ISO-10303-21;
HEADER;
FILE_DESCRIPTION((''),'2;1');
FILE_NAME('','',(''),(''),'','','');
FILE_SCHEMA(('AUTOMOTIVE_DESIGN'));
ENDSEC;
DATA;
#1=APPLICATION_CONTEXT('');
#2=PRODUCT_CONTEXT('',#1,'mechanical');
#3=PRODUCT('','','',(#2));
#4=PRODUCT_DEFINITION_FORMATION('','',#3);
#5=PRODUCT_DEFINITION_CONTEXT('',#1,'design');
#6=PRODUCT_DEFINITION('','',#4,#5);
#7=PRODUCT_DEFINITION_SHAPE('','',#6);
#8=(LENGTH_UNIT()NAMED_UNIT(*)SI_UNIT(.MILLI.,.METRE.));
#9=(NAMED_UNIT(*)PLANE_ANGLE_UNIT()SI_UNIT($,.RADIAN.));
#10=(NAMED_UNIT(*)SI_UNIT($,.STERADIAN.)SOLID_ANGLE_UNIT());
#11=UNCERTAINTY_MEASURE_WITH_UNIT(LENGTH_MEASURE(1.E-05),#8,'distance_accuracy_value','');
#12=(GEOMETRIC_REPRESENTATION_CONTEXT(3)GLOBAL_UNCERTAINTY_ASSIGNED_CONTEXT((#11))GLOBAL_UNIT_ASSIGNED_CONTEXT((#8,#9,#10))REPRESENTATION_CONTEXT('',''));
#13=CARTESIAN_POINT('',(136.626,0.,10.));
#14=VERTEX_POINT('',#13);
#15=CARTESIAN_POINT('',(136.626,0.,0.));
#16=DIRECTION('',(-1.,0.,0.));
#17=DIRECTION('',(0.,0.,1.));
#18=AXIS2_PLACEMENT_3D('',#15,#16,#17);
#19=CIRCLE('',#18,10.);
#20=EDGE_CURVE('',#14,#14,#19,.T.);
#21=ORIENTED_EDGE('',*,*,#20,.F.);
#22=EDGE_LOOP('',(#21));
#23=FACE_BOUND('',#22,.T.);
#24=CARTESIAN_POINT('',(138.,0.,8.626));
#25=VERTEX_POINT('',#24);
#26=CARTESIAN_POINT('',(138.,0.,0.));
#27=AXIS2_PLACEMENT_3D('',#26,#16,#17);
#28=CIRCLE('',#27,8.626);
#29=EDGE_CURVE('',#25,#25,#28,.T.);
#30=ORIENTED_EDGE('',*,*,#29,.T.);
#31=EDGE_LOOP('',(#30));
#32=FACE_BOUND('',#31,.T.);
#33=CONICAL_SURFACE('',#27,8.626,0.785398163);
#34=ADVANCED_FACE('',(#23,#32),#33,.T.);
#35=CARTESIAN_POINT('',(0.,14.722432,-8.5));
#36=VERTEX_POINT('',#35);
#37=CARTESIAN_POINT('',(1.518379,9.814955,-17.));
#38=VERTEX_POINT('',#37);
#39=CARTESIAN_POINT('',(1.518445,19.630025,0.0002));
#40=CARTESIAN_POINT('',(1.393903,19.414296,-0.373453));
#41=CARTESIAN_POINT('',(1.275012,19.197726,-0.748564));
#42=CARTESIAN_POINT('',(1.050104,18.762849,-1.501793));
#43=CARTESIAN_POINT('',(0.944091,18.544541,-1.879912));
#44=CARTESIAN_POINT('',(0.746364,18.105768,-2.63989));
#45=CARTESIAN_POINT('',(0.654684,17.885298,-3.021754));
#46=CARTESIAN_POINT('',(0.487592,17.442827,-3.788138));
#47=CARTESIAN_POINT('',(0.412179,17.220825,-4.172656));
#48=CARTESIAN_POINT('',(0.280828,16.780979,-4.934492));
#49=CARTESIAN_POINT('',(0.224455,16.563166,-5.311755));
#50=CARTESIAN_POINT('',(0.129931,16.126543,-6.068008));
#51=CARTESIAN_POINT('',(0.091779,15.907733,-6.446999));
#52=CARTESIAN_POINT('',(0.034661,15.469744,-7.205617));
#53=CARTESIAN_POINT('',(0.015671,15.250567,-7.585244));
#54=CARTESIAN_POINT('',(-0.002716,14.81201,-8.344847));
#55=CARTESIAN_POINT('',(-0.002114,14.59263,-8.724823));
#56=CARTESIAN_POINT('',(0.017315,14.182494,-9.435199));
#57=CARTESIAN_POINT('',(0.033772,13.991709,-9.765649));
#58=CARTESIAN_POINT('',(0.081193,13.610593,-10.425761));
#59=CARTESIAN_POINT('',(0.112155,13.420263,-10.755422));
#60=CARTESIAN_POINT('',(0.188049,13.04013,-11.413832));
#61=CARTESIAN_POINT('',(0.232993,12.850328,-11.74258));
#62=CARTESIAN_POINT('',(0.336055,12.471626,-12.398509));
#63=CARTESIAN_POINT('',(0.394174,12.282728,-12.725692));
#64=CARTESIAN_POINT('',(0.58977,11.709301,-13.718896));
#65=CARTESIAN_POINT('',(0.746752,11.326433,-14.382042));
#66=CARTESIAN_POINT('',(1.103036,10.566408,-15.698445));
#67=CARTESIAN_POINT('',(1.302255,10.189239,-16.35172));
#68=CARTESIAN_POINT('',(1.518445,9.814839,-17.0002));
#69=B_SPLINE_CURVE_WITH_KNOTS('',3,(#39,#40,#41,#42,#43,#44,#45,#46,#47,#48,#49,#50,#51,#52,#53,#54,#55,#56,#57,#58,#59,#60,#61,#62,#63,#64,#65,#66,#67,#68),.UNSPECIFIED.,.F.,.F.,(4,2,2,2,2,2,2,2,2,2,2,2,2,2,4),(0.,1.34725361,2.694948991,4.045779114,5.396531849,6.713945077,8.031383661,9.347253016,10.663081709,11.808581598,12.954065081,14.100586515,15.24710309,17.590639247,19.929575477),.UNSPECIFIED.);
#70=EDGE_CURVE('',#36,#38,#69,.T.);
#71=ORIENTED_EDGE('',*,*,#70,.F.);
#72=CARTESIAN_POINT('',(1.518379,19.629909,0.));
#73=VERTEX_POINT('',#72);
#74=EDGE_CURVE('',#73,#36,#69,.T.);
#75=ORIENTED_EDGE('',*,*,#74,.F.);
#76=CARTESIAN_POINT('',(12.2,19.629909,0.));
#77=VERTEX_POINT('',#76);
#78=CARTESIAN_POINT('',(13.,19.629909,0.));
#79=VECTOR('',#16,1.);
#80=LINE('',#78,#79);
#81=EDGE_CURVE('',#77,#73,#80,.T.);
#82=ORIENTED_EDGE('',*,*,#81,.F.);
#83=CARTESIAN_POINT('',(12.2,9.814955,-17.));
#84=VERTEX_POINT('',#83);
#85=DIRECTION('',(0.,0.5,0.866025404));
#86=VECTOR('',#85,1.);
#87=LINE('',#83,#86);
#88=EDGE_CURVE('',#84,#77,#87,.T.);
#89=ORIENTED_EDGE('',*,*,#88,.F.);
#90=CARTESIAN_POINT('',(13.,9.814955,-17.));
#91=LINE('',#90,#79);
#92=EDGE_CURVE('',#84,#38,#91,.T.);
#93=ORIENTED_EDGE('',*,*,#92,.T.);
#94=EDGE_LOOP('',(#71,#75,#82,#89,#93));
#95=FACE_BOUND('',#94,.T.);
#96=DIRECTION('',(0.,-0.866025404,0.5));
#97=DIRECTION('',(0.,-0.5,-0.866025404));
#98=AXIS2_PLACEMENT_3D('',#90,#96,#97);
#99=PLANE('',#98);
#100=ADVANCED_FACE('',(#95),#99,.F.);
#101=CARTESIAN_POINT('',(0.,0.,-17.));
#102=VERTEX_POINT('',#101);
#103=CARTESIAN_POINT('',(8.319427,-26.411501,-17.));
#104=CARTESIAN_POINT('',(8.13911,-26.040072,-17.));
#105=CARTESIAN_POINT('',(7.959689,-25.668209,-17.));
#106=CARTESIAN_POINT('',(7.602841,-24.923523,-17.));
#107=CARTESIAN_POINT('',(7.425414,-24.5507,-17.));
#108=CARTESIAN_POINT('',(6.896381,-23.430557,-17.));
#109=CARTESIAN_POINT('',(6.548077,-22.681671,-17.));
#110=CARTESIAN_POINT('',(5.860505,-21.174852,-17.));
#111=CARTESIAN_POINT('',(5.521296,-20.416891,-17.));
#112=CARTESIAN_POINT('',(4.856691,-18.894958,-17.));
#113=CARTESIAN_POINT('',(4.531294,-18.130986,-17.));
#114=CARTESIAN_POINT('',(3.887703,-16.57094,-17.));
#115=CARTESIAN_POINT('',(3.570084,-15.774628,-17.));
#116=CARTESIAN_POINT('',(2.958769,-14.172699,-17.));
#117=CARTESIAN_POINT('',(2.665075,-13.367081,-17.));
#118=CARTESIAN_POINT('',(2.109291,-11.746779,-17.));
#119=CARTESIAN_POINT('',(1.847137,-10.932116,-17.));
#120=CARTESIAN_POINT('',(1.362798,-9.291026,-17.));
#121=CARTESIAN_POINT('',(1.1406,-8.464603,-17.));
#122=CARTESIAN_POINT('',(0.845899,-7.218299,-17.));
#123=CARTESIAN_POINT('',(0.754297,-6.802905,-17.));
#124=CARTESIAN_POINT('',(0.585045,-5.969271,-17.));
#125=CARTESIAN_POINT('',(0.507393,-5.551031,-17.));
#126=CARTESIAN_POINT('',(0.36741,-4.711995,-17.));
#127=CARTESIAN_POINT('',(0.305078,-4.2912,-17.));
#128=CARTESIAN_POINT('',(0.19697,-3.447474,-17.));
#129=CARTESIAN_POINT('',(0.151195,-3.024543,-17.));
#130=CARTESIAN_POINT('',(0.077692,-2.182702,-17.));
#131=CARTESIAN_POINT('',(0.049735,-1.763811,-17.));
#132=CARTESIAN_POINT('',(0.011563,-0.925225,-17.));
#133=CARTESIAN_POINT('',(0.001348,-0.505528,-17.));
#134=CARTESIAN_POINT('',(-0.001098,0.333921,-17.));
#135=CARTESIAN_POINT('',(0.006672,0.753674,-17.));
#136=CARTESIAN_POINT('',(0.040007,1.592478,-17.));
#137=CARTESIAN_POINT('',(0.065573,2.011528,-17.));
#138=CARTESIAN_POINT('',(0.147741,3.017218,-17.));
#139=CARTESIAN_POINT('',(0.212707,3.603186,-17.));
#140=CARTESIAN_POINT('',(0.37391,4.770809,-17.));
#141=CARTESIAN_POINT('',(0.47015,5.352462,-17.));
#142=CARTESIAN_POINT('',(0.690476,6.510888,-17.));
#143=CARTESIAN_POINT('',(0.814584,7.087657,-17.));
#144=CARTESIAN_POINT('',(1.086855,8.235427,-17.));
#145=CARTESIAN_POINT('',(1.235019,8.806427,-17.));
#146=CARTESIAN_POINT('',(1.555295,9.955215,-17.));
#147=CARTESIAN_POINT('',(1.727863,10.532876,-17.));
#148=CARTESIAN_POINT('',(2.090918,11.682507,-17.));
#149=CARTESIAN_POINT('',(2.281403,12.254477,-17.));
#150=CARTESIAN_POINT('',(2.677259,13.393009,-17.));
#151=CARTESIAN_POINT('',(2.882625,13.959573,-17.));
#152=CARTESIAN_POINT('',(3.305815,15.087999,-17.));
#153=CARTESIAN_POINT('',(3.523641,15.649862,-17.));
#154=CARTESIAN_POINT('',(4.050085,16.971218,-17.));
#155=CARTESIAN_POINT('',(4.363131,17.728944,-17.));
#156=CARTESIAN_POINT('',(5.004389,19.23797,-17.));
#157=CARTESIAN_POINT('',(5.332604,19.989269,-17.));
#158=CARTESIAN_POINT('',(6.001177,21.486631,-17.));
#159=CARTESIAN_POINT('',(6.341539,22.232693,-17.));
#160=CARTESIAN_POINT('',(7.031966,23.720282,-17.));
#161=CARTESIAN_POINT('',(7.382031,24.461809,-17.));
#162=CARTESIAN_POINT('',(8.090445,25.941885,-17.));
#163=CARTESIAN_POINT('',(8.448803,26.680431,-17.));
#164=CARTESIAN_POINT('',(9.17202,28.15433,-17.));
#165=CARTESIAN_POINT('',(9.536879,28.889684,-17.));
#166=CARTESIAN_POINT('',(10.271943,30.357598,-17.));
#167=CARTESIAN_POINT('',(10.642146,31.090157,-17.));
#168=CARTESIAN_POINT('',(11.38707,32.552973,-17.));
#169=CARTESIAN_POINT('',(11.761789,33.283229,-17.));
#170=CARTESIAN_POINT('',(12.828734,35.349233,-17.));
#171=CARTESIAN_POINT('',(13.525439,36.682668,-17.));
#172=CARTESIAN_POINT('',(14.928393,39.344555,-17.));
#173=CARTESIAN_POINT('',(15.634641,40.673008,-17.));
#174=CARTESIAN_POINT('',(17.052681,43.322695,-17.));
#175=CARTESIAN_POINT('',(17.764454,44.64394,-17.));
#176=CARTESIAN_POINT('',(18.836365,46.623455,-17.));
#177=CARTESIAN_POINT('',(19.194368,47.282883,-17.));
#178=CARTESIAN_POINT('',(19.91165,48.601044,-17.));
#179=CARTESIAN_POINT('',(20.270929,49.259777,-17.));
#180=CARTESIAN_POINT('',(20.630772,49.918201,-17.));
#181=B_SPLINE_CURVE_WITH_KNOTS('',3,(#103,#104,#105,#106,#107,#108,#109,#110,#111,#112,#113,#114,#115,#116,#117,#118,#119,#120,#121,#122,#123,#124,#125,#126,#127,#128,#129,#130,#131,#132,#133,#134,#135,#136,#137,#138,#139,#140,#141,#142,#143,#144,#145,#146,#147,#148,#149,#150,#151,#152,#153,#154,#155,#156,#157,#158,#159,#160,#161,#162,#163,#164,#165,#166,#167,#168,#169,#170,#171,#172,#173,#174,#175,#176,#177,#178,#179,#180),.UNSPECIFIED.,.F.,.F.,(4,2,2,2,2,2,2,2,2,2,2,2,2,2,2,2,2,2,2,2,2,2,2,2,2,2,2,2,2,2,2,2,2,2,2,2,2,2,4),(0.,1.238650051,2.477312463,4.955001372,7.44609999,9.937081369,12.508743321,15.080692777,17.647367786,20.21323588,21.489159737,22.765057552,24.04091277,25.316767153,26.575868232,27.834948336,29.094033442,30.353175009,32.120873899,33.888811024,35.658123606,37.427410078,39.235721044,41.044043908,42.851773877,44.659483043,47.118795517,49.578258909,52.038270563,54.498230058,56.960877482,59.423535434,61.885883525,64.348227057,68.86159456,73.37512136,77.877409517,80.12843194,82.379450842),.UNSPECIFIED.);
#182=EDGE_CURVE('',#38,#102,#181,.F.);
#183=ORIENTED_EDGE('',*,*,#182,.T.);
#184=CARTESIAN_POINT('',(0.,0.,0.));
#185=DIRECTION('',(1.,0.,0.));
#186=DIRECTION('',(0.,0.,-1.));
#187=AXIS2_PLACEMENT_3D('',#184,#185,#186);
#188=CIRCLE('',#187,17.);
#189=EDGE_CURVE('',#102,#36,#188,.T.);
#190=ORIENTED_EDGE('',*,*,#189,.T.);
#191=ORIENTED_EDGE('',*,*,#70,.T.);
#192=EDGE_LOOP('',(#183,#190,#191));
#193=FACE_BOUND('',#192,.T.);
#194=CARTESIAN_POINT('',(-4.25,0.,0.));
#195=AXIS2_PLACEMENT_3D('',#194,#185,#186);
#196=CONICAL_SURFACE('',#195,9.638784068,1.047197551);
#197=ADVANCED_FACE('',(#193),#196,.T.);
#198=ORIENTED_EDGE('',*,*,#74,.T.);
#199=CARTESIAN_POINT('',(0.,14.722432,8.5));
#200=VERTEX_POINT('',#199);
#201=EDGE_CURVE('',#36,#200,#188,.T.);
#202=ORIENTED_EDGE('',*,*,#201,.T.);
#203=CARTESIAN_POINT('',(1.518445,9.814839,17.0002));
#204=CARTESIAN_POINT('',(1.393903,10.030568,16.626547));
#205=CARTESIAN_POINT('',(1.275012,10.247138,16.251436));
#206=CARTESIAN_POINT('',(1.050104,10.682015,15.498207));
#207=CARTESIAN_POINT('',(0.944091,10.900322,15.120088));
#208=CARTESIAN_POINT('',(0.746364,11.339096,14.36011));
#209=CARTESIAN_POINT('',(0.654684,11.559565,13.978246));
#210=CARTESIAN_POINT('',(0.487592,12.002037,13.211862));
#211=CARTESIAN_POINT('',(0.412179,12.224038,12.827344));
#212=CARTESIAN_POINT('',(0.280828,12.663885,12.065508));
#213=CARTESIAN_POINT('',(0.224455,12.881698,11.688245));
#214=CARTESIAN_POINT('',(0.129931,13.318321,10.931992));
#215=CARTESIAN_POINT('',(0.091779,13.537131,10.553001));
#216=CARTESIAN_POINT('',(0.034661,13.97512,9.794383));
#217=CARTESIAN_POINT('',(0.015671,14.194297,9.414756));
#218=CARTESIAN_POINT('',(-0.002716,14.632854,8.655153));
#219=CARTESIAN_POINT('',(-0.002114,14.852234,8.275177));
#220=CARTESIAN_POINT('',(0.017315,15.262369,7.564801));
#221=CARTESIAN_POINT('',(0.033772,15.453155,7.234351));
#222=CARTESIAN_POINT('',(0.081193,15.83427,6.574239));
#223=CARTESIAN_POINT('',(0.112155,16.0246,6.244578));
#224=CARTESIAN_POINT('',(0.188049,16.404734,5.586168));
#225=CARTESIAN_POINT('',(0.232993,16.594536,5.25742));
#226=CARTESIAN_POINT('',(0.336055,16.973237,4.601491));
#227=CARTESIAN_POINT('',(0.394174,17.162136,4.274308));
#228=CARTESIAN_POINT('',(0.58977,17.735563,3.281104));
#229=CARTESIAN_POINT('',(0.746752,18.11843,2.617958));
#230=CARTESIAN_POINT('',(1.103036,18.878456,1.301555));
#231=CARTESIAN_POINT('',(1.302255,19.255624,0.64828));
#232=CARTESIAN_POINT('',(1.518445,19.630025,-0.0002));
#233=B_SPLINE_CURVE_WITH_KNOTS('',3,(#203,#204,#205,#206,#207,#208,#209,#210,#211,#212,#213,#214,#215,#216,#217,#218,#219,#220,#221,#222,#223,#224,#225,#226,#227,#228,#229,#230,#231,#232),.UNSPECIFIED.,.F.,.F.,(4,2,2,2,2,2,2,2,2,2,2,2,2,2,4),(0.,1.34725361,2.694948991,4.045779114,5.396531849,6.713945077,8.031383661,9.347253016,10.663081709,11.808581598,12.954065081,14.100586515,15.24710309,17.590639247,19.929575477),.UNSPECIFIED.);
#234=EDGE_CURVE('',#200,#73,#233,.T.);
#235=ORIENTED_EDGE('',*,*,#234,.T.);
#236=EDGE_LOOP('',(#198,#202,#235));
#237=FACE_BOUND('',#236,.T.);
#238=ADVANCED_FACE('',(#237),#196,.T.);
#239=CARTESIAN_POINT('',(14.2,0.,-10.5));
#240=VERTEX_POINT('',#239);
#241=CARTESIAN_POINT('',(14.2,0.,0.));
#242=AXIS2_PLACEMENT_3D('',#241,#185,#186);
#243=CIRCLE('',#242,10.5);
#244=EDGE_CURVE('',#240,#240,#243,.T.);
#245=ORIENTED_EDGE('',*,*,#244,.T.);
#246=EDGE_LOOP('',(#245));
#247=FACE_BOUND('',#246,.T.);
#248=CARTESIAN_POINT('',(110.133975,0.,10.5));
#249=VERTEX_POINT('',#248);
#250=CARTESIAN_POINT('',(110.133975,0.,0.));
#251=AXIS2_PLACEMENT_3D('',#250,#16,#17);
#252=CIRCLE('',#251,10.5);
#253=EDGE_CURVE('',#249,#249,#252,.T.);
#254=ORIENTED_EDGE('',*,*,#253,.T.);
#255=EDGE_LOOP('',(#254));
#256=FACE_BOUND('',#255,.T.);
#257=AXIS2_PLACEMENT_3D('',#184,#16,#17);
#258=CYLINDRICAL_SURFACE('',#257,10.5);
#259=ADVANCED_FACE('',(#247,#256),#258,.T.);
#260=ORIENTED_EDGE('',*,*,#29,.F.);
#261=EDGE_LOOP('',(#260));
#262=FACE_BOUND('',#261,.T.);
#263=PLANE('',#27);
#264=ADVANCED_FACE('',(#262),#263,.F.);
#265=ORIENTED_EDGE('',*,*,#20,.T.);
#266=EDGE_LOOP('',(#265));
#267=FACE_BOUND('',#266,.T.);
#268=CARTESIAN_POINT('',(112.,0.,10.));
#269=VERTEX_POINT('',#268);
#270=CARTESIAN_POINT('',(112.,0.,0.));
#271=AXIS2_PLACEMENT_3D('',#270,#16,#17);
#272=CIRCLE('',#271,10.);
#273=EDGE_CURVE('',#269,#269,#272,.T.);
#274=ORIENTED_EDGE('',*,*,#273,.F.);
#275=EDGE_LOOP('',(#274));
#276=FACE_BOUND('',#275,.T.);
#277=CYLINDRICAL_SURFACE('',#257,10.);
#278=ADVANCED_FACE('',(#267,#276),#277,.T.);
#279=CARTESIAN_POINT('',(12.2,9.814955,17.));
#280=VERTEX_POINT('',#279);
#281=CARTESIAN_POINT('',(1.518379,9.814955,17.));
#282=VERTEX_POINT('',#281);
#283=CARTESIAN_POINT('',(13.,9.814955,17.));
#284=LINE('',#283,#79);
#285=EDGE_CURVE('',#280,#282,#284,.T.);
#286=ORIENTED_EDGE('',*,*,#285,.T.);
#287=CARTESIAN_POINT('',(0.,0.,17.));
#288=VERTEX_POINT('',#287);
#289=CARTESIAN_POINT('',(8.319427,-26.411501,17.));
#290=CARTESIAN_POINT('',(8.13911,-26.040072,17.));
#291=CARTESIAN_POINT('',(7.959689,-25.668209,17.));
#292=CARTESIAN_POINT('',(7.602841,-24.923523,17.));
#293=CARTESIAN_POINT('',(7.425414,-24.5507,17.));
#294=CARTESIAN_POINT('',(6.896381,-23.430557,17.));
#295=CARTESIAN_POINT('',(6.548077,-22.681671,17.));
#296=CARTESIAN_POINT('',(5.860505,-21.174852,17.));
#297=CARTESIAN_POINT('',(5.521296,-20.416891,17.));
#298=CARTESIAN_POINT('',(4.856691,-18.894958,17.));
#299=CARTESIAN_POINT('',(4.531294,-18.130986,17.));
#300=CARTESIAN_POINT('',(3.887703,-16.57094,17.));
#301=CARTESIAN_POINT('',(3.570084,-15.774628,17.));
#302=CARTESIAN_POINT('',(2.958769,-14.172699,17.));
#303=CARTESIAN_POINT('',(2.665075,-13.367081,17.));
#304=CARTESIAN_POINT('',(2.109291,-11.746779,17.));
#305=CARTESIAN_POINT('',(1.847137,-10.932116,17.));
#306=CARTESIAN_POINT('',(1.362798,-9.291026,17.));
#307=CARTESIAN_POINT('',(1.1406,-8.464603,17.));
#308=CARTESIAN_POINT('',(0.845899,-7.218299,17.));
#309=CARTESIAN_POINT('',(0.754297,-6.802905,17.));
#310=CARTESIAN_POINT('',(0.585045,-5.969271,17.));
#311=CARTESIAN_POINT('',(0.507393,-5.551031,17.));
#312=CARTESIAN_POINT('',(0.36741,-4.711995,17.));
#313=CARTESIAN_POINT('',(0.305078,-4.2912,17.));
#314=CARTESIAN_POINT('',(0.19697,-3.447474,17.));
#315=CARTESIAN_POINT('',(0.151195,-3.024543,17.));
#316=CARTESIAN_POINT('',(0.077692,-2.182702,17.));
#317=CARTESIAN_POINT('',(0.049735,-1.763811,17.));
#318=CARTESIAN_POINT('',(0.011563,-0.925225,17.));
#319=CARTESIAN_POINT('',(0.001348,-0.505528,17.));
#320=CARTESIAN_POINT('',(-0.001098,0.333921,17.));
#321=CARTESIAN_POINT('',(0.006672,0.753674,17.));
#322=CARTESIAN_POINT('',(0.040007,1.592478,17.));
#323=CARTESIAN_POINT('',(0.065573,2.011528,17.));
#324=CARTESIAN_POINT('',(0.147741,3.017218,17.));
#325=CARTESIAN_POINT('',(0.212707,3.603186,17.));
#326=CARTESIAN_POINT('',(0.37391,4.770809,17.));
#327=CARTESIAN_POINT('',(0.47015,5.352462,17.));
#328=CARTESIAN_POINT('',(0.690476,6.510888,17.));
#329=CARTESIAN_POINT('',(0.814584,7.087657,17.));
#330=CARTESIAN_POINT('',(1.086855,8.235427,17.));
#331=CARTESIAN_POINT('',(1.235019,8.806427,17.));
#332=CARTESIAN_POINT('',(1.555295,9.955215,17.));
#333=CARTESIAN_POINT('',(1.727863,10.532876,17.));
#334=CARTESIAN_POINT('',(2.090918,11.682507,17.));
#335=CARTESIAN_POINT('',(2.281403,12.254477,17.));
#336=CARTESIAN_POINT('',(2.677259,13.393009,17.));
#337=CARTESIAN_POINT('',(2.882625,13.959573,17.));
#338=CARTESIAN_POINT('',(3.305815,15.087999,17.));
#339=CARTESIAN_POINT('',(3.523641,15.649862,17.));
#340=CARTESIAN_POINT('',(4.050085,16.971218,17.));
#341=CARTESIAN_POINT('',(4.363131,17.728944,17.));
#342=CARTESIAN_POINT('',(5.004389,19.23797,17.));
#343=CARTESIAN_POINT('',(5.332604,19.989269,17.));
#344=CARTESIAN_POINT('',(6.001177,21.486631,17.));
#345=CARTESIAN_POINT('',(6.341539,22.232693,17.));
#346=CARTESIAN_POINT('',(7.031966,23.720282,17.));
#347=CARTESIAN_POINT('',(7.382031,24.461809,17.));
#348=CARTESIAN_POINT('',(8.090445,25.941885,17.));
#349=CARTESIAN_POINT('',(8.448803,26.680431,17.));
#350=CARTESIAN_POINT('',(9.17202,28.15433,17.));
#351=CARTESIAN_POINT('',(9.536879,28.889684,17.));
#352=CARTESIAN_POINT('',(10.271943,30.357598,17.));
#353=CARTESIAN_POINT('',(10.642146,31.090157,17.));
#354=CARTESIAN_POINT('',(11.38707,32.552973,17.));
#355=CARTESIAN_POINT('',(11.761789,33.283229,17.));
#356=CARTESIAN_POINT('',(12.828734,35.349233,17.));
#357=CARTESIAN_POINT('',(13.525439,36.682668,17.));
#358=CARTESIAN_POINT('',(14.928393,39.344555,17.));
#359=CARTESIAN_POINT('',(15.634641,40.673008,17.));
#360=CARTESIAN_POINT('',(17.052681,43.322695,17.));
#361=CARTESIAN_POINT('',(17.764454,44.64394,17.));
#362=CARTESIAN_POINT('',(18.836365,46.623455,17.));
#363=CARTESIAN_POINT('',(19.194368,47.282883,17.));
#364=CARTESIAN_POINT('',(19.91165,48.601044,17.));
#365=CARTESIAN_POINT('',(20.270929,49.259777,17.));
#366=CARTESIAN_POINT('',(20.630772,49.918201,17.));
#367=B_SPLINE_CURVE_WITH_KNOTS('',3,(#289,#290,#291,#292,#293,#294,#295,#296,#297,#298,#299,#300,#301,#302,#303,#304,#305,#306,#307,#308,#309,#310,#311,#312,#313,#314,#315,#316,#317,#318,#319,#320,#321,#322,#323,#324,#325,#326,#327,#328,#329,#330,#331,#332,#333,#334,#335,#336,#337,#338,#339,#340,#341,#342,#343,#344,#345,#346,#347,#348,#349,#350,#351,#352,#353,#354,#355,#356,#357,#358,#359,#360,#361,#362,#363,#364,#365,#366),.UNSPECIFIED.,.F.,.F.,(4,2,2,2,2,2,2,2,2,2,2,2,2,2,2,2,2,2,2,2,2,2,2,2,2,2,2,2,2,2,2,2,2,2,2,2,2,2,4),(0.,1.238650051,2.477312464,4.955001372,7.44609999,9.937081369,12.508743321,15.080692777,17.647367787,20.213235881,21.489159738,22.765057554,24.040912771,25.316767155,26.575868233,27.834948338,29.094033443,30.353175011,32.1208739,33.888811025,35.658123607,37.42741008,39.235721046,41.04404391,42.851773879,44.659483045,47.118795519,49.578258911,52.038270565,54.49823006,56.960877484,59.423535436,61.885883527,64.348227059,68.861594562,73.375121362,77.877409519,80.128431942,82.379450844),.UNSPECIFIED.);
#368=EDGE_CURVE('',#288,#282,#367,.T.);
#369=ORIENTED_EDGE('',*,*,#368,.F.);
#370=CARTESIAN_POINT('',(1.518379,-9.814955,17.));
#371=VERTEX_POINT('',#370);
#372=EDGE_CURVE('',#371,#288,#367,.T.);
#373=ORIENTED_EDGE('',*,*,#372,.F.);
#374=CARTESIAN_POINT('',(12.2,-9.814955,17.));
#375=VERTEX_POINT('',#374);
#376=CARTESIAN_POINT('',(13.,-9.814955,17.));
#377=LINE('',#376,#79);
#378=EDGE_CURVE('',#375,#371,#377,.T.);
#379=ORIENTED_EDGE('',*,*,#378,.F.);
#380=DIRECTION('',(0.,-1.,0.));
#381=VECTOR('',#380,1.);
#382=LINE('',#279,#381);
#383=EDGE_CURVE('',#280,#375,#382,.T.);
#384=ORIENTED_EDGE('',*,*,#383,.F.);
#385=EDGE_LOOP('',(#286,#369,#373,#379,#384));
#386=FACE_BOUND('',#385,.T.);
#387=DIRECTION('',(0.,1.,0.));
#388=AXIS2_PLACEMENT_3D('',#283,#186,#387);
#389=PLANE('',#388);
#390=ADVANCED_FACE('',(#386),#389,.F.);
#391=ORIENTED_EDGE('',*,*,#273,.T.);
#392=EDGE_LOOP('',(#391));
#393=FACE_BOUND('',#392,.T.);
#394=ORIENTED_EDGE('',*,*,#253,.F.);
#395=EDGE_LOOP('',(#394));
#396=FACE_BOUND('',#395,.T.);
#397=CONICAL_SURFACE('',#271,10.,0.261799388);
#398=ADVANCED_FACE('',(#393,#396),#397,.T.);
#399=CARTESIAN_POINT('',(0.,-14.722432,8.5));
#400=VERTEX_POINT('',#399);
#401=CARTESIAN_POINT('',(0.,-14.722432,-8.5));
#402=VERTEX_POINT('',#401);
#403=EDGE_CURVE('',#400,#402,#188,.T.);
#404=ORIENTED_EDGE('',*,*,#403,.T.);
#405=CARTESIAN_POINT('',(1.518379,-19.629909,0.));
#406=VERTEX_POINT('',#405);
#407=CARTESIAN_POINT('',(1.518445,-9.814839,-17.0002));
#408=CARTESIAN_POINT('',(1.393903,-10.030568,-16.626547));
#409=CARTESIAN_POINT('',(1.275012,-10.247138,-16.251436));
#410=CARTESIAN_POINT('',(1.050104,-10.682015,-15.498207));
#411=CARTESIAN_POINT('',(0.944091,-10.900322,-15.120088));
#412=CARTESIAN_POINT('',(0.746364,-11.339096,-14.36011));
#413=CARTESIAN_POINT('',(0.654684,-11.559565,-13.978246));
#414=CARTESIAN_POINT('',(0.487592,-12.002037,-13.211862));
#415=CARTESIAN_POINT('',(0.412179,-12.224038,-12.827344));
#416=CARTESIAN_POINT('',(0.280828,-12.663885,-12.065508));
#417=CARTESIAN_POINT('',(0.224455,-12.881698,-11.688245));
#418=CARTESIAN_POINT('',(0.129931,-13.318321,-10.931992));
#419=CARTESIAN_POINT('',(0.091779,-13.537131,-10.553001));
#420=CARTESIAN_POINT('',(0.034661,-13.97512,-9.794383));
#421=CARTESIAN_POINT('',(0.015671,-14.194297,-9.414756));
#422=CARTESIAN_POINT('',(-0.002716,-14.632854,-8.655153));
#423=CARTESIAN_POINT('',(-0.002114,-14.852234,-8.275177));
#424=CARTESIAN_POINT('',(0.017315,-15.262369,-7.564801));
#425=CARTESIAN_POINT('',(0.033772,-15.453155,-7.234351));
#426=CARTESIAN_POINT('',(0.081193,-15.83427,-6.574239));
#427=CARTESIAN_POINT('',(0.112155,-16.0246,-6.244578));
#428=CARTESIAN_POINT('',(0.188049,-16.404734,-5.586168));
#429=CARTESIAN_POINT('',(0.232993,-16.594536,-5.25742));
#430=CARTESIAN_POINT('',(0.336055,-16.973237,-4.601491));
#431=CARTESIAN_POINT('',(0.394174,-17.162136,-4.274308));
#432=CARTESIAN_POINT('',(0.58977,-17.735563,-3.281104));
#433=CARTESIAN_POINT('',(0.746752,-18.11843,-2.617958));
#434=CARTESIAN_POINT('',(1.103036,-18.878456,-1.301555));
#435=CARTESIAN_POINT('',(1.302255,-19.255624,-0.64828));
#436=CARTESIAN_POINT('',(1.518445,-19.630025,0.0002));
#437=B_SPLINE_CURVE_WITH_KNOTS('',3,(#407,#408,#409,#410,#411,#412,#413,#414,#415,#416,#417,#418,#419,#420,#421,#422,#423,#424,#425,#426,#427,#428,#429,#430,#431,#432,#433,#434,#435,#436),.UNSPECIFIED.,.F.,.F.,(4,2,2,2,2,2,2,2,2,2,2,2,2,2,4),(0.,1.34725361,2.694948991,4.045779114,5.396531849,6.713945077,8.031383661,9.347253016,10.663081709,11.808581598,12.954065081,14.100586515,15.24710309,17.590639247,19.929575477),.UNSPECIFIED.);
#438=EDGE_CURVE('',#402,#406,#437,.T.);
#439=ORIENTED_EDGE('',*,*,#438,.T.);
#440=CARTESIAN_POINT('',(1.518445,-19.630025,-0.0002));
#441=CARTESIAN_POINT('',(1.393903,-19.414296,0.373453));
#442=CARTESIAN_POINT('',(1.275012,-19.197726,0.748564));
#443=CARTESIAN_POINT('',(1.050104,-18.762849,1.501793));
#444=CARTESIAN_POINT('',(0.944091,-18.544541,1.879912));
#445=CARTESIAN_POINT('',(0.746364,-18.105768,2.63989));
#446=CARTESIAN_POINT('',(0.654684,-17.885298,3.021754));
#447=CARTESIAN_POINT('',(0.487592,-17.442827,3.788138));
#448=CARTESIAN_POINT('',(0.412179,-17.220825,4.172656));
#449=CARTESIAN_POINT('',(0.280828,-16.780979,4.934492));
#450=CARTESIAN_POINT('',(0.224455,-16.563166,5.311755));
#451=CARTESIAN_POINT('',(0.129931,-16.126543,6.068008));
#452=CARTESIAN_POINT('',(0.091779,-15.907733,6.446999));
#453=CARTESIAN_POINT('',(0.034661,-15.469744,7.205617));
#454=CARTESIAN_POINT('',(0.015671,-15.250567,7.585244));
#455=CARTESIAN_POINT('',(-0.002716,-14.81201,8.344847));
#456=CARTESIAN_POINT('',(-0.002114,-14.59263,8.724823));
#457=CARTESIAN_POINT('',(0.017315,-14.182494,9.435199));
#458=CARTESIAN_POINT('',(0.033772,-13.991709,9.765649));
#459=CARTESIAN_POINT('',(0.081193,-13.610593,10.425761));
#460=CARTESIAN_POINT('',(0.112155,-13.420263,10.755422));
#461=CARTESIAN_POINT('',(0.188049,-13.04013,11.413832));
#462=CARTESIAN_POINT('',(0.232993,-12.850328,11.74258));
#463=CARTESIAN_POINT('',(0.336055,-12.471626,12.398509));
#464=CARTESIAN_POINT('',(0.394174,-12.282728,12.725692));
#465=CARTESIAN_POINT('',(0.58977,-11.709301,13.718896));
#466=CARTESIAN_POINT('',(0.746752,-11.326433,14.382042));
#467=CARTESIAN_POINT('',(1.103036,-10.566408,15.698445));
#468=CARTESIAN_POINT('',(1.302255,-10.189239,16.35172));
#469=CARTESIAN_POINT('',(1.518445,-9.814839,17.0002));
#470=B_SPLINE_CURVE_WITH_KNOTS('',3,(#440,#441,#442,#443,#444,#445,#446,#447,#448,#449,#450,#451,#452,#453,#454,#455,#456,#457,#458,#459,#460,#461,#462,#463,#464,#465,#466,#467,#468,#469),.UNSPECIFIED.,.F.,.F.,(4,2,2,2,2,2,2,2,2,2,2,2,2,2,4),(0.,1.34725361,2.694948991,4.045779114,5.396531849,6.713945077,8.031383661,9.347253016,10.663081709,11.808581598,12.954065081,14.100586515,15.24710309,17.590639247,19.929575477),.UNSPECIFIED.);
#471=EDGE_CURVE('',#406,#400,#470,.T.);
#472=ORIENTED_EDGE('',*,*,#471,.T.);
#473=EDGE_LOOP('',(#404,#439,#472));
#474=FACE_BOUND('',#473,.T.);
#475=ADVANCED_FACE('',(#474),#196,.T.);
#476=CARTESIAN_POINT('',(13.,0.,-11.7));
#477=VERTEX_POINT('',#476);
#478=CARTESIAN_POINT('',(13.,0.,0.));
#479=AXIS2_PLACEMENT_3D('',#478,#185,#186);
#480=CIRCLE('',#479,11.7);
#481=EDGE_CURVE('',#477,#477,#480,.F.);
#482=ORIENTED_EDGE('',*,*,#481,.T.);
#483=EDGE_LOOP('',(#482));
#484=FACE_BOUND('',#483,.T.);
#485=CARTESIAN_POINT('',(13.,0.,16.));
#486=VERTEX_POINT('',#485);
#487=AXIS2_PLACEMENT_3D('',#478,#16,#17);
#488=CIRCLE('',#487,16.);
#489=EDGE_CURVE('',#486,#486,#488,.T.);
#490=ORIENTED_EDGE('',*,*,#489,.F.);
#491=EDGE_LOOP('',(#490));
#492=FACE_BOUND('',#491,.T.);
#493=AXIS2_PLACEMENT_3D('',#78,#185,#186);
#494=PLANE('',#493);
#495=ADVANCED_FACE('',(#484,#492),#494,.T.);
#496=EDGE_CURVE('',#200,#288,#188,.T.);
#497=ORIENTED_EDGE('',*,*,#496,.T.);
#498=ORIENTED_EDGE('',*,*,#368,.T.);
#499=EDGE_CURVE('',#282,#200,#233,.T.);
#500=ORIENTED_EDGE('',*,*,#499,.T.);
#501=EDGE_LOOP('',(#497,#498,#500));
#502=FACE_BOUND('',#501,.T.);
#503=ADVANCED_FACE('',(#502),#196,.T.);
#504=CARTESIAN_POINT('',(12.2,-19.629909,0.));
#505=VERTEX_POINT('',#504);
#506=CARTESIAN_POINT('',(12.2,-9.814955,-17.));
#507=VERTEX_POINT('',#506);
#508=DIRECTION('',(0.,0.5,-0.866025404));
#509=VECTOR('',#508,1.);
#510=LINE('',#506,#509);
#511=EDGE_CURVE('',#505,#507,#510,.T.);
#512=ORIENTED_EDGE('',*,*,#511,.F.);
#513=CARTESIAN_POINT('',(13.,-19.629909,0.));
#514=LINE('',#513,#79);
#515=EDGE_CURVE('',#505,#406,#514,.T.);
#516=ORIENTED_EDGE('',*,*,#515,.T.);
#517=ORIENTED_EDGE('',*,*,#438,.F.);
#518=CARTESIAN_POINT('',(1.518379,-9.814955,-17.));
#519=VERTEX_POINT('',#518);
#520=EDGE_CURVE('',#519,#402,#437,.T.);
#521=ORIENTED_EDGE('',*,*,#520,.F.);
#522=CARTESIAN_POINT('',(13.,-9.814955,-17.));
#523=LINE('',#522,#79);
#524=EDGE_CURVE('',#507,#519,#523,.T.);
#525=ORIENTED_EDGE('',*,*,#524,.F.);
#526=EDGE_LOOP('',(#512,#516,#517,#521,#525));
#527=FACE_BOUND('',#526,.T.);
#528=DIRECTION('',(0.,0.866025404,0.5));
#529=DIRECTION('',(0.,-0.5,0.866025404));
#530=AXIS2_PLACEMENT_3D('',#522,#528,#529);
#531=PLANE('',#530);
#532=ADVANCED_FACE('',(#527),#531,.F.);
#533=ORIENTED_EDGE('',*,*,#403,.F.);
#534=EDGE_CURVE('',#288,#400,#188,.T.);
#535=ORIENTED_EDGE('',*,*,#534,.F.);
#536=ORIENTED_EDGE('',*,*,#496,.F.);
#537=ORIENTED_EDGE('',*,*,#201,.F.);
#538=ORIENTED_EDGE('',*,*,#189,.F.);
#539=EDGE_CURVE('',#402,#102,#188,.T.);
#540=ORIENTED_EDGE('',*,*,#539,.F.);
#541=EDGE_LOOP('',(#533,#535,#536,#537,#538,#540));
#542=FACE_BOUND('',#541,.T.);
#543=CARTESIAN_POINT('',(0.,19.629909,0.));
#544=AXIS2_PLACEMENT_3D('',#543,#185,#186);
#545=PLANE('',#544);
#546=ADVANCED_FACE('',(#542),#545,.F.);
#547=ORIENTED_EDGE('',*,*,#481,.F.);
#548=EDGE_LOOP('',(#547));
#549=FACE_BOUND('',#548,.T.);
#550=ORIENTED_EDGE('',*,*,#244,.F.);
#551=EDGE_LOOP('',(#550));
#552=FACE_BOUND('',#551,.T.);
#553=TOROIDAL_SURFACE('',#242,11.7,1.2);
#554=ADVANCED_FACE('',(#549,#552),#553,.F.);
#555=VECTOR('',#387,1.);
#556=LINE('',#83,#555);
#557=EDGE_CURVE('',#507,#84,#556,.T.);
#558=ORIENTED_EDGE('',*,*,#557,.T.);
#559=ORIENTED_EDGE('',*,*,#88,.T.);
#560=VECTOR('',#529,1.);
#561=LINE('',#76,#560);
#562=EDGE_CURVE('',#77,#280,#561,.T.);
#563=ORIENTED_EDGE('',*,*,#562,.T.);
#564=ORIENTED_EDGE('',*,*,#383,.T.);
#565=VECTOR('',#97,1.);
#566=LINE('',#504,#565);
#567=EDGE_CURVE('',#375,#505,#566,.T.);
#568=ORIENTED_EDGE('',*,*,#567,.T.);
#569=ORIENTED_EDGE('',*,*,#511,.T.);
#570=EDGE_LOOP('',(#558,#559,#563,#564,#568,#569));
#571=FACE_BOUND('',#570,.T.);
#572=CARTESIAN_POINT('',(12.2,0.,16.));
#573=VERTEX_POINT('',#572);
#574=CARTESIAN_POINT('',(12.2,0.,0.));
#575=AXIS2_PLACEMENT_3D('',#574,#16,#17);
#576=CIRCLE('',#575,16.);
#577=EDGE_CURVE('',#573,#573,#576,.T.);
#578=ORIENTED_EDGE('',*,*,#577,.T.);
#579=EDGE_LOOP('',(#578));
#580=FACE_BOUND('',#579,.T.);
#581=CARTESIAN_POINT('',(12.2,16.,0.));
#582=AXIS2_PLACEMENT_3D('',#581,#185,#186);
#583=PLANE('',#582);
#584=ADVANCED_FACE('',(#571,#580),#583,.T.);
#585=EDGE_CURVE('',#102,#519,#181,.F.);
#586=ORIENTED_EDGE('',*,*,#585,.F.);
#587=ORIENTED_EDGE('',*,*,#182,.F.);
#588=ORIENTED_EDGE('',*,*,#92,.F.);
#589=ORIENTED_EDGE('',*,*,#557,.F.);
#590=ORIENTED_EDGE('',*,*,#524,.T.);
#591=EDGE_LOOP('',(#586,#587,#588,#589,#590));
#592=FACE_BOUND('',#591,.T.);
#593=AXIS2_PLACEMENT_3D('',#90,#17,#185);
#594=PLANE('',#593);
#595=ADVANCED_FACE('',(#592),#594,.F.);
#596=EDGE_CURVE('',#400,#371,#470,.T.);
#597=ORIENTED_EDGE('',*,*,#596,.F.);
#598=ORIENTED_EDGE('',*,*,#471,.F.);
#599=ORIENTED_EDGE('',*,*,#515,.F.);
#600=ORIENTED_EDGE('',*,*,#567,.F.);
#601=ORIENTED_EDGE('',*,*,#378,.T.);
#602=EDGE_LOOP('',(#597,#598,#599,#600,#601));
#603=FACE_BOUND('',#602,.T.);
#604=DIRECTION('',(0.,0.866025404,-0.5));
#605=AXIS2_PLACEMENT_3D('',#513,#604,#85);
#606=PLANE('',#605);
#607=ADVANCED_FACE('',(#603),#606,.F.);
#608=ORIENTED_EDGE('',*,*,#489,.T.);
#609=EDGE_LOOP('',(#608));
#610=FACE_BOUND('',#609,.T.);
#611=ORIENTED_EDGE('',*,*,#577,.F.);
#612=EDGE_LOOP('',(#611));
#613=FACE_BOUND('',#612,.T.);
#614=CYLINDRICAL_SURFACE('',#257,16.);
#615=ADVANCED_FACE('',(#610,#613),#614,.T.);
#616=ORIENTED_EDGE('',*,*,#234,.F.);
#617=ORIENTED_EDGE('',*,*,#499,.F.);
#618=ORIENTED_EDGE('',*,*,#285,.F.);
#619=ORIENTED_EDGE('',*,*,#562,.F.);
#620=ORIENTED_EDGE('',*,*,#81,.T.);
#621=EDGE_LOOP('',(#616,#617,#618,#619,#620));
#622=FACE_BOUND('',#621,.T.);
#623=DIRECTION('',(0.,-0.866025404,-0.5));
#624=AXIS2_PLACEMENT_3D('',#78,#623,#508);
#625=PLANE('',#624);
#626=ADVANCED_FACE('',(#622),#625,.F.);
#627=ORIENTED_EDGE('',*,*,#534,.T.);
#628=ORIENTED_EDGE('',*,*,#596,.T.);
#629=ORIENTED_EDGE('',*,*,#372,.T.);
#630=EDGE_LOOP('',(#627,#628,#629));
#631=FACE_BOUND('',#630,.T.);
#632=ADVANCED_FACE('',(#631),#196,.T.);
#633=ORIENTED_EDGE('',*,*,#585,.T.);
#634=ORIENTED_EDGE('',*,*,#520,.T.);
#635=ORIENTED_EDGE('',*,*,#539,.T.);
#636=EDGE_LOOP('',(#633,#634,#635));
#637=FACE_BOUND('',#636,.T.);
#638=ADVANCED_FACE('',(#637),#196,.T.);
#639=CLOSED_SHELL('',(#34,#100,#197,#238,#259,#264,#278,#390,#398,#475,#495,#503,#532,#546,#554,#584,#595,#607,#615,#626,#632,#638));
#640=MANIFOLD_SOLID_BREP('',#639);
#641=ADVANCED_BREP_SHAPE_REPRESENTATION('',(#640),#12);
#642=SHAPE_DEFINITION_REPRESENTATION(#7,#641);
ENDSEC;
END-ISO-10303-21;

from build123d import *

# Parameters (mm, degrees)
BASEHEAD_DEPTH = 13
SKETCH4_W      = 0.8
SKETCH4_H      = 3.629909152
HEADFILLET_R   = 1.2


with BuildPart() as part:
    # HeadSke → BaseHead (new body)
    with BuildSketch(Plane(origin=(0, 0, 0), x_dir=(0, 0, -1), z_dir=(1, 0, 0))):
        Polygon((17, 9.814954576), (17, -9.814954576), (0, -19.629909152), (-17, -9.814954576), (-17, 9.814954576), (0, 19.629909152), align=None)
    extrude(amount=BASEHEAD_DEPTH)

    # BodySke → BaseBody (revolve)
    with BuildSketch(Plane.XY, mode=Mode.PRIVATE) as basebody_sk:
        Polygon((0, 10.5), (0, 0), (138, 0), (138, 8.626), (136.626, 10), (112, 10), (110.133974596, 10.5), align=None)
    revolve(basebody_sk.sketch.rotate(Axis((0, 0, 0), (1, 0, 0)), 90), axis=Axis((0, 0, 0), (1, 0, 0)))

    # Sketch3 → HeadChamfer (revolve, cut)
    with BuildSketch(Plane(origin=(0, 0, 0), x_dir=(1, 0, 0), z_dir=(0, 1, 0))):
        Polygon((4.25, 24.361215932), (-4.25, 9.638784068), (-11.424013371, 13.780702619), (-2.924013371, 28.503134483), align=None)
    revolve(axis=Axis((0, 0, 0), (1, 0, 0)), mode=Mode.SUBTRACT)

    # Sketch4 → BearingFace (revolve, cut)
    with BuildSketch(Plane.XY, mode=Mode.PRIVATE) as bearingface_sk:
        with Locations((12.6, 17.814954576)):
            Rectangle(SKETCH4_W, SKETCH4_H)
    revolve(bearingface_sk.sketch.rotate(Axis((0, 0, 0), (1, 0, 0)), 90), axis=Axis((0, 0, 0), (1, 0, 0)), mode=Mode.SUBTRACT)

    # HeadFillet
    headfillet_edges = [part.edges().sort_by_distance(p)[0] for p in [
        (13, 0, -10.5),
    ]]
    fillet(headfillet_edges, radius=HEADFILLET_R)


solid = part.part
